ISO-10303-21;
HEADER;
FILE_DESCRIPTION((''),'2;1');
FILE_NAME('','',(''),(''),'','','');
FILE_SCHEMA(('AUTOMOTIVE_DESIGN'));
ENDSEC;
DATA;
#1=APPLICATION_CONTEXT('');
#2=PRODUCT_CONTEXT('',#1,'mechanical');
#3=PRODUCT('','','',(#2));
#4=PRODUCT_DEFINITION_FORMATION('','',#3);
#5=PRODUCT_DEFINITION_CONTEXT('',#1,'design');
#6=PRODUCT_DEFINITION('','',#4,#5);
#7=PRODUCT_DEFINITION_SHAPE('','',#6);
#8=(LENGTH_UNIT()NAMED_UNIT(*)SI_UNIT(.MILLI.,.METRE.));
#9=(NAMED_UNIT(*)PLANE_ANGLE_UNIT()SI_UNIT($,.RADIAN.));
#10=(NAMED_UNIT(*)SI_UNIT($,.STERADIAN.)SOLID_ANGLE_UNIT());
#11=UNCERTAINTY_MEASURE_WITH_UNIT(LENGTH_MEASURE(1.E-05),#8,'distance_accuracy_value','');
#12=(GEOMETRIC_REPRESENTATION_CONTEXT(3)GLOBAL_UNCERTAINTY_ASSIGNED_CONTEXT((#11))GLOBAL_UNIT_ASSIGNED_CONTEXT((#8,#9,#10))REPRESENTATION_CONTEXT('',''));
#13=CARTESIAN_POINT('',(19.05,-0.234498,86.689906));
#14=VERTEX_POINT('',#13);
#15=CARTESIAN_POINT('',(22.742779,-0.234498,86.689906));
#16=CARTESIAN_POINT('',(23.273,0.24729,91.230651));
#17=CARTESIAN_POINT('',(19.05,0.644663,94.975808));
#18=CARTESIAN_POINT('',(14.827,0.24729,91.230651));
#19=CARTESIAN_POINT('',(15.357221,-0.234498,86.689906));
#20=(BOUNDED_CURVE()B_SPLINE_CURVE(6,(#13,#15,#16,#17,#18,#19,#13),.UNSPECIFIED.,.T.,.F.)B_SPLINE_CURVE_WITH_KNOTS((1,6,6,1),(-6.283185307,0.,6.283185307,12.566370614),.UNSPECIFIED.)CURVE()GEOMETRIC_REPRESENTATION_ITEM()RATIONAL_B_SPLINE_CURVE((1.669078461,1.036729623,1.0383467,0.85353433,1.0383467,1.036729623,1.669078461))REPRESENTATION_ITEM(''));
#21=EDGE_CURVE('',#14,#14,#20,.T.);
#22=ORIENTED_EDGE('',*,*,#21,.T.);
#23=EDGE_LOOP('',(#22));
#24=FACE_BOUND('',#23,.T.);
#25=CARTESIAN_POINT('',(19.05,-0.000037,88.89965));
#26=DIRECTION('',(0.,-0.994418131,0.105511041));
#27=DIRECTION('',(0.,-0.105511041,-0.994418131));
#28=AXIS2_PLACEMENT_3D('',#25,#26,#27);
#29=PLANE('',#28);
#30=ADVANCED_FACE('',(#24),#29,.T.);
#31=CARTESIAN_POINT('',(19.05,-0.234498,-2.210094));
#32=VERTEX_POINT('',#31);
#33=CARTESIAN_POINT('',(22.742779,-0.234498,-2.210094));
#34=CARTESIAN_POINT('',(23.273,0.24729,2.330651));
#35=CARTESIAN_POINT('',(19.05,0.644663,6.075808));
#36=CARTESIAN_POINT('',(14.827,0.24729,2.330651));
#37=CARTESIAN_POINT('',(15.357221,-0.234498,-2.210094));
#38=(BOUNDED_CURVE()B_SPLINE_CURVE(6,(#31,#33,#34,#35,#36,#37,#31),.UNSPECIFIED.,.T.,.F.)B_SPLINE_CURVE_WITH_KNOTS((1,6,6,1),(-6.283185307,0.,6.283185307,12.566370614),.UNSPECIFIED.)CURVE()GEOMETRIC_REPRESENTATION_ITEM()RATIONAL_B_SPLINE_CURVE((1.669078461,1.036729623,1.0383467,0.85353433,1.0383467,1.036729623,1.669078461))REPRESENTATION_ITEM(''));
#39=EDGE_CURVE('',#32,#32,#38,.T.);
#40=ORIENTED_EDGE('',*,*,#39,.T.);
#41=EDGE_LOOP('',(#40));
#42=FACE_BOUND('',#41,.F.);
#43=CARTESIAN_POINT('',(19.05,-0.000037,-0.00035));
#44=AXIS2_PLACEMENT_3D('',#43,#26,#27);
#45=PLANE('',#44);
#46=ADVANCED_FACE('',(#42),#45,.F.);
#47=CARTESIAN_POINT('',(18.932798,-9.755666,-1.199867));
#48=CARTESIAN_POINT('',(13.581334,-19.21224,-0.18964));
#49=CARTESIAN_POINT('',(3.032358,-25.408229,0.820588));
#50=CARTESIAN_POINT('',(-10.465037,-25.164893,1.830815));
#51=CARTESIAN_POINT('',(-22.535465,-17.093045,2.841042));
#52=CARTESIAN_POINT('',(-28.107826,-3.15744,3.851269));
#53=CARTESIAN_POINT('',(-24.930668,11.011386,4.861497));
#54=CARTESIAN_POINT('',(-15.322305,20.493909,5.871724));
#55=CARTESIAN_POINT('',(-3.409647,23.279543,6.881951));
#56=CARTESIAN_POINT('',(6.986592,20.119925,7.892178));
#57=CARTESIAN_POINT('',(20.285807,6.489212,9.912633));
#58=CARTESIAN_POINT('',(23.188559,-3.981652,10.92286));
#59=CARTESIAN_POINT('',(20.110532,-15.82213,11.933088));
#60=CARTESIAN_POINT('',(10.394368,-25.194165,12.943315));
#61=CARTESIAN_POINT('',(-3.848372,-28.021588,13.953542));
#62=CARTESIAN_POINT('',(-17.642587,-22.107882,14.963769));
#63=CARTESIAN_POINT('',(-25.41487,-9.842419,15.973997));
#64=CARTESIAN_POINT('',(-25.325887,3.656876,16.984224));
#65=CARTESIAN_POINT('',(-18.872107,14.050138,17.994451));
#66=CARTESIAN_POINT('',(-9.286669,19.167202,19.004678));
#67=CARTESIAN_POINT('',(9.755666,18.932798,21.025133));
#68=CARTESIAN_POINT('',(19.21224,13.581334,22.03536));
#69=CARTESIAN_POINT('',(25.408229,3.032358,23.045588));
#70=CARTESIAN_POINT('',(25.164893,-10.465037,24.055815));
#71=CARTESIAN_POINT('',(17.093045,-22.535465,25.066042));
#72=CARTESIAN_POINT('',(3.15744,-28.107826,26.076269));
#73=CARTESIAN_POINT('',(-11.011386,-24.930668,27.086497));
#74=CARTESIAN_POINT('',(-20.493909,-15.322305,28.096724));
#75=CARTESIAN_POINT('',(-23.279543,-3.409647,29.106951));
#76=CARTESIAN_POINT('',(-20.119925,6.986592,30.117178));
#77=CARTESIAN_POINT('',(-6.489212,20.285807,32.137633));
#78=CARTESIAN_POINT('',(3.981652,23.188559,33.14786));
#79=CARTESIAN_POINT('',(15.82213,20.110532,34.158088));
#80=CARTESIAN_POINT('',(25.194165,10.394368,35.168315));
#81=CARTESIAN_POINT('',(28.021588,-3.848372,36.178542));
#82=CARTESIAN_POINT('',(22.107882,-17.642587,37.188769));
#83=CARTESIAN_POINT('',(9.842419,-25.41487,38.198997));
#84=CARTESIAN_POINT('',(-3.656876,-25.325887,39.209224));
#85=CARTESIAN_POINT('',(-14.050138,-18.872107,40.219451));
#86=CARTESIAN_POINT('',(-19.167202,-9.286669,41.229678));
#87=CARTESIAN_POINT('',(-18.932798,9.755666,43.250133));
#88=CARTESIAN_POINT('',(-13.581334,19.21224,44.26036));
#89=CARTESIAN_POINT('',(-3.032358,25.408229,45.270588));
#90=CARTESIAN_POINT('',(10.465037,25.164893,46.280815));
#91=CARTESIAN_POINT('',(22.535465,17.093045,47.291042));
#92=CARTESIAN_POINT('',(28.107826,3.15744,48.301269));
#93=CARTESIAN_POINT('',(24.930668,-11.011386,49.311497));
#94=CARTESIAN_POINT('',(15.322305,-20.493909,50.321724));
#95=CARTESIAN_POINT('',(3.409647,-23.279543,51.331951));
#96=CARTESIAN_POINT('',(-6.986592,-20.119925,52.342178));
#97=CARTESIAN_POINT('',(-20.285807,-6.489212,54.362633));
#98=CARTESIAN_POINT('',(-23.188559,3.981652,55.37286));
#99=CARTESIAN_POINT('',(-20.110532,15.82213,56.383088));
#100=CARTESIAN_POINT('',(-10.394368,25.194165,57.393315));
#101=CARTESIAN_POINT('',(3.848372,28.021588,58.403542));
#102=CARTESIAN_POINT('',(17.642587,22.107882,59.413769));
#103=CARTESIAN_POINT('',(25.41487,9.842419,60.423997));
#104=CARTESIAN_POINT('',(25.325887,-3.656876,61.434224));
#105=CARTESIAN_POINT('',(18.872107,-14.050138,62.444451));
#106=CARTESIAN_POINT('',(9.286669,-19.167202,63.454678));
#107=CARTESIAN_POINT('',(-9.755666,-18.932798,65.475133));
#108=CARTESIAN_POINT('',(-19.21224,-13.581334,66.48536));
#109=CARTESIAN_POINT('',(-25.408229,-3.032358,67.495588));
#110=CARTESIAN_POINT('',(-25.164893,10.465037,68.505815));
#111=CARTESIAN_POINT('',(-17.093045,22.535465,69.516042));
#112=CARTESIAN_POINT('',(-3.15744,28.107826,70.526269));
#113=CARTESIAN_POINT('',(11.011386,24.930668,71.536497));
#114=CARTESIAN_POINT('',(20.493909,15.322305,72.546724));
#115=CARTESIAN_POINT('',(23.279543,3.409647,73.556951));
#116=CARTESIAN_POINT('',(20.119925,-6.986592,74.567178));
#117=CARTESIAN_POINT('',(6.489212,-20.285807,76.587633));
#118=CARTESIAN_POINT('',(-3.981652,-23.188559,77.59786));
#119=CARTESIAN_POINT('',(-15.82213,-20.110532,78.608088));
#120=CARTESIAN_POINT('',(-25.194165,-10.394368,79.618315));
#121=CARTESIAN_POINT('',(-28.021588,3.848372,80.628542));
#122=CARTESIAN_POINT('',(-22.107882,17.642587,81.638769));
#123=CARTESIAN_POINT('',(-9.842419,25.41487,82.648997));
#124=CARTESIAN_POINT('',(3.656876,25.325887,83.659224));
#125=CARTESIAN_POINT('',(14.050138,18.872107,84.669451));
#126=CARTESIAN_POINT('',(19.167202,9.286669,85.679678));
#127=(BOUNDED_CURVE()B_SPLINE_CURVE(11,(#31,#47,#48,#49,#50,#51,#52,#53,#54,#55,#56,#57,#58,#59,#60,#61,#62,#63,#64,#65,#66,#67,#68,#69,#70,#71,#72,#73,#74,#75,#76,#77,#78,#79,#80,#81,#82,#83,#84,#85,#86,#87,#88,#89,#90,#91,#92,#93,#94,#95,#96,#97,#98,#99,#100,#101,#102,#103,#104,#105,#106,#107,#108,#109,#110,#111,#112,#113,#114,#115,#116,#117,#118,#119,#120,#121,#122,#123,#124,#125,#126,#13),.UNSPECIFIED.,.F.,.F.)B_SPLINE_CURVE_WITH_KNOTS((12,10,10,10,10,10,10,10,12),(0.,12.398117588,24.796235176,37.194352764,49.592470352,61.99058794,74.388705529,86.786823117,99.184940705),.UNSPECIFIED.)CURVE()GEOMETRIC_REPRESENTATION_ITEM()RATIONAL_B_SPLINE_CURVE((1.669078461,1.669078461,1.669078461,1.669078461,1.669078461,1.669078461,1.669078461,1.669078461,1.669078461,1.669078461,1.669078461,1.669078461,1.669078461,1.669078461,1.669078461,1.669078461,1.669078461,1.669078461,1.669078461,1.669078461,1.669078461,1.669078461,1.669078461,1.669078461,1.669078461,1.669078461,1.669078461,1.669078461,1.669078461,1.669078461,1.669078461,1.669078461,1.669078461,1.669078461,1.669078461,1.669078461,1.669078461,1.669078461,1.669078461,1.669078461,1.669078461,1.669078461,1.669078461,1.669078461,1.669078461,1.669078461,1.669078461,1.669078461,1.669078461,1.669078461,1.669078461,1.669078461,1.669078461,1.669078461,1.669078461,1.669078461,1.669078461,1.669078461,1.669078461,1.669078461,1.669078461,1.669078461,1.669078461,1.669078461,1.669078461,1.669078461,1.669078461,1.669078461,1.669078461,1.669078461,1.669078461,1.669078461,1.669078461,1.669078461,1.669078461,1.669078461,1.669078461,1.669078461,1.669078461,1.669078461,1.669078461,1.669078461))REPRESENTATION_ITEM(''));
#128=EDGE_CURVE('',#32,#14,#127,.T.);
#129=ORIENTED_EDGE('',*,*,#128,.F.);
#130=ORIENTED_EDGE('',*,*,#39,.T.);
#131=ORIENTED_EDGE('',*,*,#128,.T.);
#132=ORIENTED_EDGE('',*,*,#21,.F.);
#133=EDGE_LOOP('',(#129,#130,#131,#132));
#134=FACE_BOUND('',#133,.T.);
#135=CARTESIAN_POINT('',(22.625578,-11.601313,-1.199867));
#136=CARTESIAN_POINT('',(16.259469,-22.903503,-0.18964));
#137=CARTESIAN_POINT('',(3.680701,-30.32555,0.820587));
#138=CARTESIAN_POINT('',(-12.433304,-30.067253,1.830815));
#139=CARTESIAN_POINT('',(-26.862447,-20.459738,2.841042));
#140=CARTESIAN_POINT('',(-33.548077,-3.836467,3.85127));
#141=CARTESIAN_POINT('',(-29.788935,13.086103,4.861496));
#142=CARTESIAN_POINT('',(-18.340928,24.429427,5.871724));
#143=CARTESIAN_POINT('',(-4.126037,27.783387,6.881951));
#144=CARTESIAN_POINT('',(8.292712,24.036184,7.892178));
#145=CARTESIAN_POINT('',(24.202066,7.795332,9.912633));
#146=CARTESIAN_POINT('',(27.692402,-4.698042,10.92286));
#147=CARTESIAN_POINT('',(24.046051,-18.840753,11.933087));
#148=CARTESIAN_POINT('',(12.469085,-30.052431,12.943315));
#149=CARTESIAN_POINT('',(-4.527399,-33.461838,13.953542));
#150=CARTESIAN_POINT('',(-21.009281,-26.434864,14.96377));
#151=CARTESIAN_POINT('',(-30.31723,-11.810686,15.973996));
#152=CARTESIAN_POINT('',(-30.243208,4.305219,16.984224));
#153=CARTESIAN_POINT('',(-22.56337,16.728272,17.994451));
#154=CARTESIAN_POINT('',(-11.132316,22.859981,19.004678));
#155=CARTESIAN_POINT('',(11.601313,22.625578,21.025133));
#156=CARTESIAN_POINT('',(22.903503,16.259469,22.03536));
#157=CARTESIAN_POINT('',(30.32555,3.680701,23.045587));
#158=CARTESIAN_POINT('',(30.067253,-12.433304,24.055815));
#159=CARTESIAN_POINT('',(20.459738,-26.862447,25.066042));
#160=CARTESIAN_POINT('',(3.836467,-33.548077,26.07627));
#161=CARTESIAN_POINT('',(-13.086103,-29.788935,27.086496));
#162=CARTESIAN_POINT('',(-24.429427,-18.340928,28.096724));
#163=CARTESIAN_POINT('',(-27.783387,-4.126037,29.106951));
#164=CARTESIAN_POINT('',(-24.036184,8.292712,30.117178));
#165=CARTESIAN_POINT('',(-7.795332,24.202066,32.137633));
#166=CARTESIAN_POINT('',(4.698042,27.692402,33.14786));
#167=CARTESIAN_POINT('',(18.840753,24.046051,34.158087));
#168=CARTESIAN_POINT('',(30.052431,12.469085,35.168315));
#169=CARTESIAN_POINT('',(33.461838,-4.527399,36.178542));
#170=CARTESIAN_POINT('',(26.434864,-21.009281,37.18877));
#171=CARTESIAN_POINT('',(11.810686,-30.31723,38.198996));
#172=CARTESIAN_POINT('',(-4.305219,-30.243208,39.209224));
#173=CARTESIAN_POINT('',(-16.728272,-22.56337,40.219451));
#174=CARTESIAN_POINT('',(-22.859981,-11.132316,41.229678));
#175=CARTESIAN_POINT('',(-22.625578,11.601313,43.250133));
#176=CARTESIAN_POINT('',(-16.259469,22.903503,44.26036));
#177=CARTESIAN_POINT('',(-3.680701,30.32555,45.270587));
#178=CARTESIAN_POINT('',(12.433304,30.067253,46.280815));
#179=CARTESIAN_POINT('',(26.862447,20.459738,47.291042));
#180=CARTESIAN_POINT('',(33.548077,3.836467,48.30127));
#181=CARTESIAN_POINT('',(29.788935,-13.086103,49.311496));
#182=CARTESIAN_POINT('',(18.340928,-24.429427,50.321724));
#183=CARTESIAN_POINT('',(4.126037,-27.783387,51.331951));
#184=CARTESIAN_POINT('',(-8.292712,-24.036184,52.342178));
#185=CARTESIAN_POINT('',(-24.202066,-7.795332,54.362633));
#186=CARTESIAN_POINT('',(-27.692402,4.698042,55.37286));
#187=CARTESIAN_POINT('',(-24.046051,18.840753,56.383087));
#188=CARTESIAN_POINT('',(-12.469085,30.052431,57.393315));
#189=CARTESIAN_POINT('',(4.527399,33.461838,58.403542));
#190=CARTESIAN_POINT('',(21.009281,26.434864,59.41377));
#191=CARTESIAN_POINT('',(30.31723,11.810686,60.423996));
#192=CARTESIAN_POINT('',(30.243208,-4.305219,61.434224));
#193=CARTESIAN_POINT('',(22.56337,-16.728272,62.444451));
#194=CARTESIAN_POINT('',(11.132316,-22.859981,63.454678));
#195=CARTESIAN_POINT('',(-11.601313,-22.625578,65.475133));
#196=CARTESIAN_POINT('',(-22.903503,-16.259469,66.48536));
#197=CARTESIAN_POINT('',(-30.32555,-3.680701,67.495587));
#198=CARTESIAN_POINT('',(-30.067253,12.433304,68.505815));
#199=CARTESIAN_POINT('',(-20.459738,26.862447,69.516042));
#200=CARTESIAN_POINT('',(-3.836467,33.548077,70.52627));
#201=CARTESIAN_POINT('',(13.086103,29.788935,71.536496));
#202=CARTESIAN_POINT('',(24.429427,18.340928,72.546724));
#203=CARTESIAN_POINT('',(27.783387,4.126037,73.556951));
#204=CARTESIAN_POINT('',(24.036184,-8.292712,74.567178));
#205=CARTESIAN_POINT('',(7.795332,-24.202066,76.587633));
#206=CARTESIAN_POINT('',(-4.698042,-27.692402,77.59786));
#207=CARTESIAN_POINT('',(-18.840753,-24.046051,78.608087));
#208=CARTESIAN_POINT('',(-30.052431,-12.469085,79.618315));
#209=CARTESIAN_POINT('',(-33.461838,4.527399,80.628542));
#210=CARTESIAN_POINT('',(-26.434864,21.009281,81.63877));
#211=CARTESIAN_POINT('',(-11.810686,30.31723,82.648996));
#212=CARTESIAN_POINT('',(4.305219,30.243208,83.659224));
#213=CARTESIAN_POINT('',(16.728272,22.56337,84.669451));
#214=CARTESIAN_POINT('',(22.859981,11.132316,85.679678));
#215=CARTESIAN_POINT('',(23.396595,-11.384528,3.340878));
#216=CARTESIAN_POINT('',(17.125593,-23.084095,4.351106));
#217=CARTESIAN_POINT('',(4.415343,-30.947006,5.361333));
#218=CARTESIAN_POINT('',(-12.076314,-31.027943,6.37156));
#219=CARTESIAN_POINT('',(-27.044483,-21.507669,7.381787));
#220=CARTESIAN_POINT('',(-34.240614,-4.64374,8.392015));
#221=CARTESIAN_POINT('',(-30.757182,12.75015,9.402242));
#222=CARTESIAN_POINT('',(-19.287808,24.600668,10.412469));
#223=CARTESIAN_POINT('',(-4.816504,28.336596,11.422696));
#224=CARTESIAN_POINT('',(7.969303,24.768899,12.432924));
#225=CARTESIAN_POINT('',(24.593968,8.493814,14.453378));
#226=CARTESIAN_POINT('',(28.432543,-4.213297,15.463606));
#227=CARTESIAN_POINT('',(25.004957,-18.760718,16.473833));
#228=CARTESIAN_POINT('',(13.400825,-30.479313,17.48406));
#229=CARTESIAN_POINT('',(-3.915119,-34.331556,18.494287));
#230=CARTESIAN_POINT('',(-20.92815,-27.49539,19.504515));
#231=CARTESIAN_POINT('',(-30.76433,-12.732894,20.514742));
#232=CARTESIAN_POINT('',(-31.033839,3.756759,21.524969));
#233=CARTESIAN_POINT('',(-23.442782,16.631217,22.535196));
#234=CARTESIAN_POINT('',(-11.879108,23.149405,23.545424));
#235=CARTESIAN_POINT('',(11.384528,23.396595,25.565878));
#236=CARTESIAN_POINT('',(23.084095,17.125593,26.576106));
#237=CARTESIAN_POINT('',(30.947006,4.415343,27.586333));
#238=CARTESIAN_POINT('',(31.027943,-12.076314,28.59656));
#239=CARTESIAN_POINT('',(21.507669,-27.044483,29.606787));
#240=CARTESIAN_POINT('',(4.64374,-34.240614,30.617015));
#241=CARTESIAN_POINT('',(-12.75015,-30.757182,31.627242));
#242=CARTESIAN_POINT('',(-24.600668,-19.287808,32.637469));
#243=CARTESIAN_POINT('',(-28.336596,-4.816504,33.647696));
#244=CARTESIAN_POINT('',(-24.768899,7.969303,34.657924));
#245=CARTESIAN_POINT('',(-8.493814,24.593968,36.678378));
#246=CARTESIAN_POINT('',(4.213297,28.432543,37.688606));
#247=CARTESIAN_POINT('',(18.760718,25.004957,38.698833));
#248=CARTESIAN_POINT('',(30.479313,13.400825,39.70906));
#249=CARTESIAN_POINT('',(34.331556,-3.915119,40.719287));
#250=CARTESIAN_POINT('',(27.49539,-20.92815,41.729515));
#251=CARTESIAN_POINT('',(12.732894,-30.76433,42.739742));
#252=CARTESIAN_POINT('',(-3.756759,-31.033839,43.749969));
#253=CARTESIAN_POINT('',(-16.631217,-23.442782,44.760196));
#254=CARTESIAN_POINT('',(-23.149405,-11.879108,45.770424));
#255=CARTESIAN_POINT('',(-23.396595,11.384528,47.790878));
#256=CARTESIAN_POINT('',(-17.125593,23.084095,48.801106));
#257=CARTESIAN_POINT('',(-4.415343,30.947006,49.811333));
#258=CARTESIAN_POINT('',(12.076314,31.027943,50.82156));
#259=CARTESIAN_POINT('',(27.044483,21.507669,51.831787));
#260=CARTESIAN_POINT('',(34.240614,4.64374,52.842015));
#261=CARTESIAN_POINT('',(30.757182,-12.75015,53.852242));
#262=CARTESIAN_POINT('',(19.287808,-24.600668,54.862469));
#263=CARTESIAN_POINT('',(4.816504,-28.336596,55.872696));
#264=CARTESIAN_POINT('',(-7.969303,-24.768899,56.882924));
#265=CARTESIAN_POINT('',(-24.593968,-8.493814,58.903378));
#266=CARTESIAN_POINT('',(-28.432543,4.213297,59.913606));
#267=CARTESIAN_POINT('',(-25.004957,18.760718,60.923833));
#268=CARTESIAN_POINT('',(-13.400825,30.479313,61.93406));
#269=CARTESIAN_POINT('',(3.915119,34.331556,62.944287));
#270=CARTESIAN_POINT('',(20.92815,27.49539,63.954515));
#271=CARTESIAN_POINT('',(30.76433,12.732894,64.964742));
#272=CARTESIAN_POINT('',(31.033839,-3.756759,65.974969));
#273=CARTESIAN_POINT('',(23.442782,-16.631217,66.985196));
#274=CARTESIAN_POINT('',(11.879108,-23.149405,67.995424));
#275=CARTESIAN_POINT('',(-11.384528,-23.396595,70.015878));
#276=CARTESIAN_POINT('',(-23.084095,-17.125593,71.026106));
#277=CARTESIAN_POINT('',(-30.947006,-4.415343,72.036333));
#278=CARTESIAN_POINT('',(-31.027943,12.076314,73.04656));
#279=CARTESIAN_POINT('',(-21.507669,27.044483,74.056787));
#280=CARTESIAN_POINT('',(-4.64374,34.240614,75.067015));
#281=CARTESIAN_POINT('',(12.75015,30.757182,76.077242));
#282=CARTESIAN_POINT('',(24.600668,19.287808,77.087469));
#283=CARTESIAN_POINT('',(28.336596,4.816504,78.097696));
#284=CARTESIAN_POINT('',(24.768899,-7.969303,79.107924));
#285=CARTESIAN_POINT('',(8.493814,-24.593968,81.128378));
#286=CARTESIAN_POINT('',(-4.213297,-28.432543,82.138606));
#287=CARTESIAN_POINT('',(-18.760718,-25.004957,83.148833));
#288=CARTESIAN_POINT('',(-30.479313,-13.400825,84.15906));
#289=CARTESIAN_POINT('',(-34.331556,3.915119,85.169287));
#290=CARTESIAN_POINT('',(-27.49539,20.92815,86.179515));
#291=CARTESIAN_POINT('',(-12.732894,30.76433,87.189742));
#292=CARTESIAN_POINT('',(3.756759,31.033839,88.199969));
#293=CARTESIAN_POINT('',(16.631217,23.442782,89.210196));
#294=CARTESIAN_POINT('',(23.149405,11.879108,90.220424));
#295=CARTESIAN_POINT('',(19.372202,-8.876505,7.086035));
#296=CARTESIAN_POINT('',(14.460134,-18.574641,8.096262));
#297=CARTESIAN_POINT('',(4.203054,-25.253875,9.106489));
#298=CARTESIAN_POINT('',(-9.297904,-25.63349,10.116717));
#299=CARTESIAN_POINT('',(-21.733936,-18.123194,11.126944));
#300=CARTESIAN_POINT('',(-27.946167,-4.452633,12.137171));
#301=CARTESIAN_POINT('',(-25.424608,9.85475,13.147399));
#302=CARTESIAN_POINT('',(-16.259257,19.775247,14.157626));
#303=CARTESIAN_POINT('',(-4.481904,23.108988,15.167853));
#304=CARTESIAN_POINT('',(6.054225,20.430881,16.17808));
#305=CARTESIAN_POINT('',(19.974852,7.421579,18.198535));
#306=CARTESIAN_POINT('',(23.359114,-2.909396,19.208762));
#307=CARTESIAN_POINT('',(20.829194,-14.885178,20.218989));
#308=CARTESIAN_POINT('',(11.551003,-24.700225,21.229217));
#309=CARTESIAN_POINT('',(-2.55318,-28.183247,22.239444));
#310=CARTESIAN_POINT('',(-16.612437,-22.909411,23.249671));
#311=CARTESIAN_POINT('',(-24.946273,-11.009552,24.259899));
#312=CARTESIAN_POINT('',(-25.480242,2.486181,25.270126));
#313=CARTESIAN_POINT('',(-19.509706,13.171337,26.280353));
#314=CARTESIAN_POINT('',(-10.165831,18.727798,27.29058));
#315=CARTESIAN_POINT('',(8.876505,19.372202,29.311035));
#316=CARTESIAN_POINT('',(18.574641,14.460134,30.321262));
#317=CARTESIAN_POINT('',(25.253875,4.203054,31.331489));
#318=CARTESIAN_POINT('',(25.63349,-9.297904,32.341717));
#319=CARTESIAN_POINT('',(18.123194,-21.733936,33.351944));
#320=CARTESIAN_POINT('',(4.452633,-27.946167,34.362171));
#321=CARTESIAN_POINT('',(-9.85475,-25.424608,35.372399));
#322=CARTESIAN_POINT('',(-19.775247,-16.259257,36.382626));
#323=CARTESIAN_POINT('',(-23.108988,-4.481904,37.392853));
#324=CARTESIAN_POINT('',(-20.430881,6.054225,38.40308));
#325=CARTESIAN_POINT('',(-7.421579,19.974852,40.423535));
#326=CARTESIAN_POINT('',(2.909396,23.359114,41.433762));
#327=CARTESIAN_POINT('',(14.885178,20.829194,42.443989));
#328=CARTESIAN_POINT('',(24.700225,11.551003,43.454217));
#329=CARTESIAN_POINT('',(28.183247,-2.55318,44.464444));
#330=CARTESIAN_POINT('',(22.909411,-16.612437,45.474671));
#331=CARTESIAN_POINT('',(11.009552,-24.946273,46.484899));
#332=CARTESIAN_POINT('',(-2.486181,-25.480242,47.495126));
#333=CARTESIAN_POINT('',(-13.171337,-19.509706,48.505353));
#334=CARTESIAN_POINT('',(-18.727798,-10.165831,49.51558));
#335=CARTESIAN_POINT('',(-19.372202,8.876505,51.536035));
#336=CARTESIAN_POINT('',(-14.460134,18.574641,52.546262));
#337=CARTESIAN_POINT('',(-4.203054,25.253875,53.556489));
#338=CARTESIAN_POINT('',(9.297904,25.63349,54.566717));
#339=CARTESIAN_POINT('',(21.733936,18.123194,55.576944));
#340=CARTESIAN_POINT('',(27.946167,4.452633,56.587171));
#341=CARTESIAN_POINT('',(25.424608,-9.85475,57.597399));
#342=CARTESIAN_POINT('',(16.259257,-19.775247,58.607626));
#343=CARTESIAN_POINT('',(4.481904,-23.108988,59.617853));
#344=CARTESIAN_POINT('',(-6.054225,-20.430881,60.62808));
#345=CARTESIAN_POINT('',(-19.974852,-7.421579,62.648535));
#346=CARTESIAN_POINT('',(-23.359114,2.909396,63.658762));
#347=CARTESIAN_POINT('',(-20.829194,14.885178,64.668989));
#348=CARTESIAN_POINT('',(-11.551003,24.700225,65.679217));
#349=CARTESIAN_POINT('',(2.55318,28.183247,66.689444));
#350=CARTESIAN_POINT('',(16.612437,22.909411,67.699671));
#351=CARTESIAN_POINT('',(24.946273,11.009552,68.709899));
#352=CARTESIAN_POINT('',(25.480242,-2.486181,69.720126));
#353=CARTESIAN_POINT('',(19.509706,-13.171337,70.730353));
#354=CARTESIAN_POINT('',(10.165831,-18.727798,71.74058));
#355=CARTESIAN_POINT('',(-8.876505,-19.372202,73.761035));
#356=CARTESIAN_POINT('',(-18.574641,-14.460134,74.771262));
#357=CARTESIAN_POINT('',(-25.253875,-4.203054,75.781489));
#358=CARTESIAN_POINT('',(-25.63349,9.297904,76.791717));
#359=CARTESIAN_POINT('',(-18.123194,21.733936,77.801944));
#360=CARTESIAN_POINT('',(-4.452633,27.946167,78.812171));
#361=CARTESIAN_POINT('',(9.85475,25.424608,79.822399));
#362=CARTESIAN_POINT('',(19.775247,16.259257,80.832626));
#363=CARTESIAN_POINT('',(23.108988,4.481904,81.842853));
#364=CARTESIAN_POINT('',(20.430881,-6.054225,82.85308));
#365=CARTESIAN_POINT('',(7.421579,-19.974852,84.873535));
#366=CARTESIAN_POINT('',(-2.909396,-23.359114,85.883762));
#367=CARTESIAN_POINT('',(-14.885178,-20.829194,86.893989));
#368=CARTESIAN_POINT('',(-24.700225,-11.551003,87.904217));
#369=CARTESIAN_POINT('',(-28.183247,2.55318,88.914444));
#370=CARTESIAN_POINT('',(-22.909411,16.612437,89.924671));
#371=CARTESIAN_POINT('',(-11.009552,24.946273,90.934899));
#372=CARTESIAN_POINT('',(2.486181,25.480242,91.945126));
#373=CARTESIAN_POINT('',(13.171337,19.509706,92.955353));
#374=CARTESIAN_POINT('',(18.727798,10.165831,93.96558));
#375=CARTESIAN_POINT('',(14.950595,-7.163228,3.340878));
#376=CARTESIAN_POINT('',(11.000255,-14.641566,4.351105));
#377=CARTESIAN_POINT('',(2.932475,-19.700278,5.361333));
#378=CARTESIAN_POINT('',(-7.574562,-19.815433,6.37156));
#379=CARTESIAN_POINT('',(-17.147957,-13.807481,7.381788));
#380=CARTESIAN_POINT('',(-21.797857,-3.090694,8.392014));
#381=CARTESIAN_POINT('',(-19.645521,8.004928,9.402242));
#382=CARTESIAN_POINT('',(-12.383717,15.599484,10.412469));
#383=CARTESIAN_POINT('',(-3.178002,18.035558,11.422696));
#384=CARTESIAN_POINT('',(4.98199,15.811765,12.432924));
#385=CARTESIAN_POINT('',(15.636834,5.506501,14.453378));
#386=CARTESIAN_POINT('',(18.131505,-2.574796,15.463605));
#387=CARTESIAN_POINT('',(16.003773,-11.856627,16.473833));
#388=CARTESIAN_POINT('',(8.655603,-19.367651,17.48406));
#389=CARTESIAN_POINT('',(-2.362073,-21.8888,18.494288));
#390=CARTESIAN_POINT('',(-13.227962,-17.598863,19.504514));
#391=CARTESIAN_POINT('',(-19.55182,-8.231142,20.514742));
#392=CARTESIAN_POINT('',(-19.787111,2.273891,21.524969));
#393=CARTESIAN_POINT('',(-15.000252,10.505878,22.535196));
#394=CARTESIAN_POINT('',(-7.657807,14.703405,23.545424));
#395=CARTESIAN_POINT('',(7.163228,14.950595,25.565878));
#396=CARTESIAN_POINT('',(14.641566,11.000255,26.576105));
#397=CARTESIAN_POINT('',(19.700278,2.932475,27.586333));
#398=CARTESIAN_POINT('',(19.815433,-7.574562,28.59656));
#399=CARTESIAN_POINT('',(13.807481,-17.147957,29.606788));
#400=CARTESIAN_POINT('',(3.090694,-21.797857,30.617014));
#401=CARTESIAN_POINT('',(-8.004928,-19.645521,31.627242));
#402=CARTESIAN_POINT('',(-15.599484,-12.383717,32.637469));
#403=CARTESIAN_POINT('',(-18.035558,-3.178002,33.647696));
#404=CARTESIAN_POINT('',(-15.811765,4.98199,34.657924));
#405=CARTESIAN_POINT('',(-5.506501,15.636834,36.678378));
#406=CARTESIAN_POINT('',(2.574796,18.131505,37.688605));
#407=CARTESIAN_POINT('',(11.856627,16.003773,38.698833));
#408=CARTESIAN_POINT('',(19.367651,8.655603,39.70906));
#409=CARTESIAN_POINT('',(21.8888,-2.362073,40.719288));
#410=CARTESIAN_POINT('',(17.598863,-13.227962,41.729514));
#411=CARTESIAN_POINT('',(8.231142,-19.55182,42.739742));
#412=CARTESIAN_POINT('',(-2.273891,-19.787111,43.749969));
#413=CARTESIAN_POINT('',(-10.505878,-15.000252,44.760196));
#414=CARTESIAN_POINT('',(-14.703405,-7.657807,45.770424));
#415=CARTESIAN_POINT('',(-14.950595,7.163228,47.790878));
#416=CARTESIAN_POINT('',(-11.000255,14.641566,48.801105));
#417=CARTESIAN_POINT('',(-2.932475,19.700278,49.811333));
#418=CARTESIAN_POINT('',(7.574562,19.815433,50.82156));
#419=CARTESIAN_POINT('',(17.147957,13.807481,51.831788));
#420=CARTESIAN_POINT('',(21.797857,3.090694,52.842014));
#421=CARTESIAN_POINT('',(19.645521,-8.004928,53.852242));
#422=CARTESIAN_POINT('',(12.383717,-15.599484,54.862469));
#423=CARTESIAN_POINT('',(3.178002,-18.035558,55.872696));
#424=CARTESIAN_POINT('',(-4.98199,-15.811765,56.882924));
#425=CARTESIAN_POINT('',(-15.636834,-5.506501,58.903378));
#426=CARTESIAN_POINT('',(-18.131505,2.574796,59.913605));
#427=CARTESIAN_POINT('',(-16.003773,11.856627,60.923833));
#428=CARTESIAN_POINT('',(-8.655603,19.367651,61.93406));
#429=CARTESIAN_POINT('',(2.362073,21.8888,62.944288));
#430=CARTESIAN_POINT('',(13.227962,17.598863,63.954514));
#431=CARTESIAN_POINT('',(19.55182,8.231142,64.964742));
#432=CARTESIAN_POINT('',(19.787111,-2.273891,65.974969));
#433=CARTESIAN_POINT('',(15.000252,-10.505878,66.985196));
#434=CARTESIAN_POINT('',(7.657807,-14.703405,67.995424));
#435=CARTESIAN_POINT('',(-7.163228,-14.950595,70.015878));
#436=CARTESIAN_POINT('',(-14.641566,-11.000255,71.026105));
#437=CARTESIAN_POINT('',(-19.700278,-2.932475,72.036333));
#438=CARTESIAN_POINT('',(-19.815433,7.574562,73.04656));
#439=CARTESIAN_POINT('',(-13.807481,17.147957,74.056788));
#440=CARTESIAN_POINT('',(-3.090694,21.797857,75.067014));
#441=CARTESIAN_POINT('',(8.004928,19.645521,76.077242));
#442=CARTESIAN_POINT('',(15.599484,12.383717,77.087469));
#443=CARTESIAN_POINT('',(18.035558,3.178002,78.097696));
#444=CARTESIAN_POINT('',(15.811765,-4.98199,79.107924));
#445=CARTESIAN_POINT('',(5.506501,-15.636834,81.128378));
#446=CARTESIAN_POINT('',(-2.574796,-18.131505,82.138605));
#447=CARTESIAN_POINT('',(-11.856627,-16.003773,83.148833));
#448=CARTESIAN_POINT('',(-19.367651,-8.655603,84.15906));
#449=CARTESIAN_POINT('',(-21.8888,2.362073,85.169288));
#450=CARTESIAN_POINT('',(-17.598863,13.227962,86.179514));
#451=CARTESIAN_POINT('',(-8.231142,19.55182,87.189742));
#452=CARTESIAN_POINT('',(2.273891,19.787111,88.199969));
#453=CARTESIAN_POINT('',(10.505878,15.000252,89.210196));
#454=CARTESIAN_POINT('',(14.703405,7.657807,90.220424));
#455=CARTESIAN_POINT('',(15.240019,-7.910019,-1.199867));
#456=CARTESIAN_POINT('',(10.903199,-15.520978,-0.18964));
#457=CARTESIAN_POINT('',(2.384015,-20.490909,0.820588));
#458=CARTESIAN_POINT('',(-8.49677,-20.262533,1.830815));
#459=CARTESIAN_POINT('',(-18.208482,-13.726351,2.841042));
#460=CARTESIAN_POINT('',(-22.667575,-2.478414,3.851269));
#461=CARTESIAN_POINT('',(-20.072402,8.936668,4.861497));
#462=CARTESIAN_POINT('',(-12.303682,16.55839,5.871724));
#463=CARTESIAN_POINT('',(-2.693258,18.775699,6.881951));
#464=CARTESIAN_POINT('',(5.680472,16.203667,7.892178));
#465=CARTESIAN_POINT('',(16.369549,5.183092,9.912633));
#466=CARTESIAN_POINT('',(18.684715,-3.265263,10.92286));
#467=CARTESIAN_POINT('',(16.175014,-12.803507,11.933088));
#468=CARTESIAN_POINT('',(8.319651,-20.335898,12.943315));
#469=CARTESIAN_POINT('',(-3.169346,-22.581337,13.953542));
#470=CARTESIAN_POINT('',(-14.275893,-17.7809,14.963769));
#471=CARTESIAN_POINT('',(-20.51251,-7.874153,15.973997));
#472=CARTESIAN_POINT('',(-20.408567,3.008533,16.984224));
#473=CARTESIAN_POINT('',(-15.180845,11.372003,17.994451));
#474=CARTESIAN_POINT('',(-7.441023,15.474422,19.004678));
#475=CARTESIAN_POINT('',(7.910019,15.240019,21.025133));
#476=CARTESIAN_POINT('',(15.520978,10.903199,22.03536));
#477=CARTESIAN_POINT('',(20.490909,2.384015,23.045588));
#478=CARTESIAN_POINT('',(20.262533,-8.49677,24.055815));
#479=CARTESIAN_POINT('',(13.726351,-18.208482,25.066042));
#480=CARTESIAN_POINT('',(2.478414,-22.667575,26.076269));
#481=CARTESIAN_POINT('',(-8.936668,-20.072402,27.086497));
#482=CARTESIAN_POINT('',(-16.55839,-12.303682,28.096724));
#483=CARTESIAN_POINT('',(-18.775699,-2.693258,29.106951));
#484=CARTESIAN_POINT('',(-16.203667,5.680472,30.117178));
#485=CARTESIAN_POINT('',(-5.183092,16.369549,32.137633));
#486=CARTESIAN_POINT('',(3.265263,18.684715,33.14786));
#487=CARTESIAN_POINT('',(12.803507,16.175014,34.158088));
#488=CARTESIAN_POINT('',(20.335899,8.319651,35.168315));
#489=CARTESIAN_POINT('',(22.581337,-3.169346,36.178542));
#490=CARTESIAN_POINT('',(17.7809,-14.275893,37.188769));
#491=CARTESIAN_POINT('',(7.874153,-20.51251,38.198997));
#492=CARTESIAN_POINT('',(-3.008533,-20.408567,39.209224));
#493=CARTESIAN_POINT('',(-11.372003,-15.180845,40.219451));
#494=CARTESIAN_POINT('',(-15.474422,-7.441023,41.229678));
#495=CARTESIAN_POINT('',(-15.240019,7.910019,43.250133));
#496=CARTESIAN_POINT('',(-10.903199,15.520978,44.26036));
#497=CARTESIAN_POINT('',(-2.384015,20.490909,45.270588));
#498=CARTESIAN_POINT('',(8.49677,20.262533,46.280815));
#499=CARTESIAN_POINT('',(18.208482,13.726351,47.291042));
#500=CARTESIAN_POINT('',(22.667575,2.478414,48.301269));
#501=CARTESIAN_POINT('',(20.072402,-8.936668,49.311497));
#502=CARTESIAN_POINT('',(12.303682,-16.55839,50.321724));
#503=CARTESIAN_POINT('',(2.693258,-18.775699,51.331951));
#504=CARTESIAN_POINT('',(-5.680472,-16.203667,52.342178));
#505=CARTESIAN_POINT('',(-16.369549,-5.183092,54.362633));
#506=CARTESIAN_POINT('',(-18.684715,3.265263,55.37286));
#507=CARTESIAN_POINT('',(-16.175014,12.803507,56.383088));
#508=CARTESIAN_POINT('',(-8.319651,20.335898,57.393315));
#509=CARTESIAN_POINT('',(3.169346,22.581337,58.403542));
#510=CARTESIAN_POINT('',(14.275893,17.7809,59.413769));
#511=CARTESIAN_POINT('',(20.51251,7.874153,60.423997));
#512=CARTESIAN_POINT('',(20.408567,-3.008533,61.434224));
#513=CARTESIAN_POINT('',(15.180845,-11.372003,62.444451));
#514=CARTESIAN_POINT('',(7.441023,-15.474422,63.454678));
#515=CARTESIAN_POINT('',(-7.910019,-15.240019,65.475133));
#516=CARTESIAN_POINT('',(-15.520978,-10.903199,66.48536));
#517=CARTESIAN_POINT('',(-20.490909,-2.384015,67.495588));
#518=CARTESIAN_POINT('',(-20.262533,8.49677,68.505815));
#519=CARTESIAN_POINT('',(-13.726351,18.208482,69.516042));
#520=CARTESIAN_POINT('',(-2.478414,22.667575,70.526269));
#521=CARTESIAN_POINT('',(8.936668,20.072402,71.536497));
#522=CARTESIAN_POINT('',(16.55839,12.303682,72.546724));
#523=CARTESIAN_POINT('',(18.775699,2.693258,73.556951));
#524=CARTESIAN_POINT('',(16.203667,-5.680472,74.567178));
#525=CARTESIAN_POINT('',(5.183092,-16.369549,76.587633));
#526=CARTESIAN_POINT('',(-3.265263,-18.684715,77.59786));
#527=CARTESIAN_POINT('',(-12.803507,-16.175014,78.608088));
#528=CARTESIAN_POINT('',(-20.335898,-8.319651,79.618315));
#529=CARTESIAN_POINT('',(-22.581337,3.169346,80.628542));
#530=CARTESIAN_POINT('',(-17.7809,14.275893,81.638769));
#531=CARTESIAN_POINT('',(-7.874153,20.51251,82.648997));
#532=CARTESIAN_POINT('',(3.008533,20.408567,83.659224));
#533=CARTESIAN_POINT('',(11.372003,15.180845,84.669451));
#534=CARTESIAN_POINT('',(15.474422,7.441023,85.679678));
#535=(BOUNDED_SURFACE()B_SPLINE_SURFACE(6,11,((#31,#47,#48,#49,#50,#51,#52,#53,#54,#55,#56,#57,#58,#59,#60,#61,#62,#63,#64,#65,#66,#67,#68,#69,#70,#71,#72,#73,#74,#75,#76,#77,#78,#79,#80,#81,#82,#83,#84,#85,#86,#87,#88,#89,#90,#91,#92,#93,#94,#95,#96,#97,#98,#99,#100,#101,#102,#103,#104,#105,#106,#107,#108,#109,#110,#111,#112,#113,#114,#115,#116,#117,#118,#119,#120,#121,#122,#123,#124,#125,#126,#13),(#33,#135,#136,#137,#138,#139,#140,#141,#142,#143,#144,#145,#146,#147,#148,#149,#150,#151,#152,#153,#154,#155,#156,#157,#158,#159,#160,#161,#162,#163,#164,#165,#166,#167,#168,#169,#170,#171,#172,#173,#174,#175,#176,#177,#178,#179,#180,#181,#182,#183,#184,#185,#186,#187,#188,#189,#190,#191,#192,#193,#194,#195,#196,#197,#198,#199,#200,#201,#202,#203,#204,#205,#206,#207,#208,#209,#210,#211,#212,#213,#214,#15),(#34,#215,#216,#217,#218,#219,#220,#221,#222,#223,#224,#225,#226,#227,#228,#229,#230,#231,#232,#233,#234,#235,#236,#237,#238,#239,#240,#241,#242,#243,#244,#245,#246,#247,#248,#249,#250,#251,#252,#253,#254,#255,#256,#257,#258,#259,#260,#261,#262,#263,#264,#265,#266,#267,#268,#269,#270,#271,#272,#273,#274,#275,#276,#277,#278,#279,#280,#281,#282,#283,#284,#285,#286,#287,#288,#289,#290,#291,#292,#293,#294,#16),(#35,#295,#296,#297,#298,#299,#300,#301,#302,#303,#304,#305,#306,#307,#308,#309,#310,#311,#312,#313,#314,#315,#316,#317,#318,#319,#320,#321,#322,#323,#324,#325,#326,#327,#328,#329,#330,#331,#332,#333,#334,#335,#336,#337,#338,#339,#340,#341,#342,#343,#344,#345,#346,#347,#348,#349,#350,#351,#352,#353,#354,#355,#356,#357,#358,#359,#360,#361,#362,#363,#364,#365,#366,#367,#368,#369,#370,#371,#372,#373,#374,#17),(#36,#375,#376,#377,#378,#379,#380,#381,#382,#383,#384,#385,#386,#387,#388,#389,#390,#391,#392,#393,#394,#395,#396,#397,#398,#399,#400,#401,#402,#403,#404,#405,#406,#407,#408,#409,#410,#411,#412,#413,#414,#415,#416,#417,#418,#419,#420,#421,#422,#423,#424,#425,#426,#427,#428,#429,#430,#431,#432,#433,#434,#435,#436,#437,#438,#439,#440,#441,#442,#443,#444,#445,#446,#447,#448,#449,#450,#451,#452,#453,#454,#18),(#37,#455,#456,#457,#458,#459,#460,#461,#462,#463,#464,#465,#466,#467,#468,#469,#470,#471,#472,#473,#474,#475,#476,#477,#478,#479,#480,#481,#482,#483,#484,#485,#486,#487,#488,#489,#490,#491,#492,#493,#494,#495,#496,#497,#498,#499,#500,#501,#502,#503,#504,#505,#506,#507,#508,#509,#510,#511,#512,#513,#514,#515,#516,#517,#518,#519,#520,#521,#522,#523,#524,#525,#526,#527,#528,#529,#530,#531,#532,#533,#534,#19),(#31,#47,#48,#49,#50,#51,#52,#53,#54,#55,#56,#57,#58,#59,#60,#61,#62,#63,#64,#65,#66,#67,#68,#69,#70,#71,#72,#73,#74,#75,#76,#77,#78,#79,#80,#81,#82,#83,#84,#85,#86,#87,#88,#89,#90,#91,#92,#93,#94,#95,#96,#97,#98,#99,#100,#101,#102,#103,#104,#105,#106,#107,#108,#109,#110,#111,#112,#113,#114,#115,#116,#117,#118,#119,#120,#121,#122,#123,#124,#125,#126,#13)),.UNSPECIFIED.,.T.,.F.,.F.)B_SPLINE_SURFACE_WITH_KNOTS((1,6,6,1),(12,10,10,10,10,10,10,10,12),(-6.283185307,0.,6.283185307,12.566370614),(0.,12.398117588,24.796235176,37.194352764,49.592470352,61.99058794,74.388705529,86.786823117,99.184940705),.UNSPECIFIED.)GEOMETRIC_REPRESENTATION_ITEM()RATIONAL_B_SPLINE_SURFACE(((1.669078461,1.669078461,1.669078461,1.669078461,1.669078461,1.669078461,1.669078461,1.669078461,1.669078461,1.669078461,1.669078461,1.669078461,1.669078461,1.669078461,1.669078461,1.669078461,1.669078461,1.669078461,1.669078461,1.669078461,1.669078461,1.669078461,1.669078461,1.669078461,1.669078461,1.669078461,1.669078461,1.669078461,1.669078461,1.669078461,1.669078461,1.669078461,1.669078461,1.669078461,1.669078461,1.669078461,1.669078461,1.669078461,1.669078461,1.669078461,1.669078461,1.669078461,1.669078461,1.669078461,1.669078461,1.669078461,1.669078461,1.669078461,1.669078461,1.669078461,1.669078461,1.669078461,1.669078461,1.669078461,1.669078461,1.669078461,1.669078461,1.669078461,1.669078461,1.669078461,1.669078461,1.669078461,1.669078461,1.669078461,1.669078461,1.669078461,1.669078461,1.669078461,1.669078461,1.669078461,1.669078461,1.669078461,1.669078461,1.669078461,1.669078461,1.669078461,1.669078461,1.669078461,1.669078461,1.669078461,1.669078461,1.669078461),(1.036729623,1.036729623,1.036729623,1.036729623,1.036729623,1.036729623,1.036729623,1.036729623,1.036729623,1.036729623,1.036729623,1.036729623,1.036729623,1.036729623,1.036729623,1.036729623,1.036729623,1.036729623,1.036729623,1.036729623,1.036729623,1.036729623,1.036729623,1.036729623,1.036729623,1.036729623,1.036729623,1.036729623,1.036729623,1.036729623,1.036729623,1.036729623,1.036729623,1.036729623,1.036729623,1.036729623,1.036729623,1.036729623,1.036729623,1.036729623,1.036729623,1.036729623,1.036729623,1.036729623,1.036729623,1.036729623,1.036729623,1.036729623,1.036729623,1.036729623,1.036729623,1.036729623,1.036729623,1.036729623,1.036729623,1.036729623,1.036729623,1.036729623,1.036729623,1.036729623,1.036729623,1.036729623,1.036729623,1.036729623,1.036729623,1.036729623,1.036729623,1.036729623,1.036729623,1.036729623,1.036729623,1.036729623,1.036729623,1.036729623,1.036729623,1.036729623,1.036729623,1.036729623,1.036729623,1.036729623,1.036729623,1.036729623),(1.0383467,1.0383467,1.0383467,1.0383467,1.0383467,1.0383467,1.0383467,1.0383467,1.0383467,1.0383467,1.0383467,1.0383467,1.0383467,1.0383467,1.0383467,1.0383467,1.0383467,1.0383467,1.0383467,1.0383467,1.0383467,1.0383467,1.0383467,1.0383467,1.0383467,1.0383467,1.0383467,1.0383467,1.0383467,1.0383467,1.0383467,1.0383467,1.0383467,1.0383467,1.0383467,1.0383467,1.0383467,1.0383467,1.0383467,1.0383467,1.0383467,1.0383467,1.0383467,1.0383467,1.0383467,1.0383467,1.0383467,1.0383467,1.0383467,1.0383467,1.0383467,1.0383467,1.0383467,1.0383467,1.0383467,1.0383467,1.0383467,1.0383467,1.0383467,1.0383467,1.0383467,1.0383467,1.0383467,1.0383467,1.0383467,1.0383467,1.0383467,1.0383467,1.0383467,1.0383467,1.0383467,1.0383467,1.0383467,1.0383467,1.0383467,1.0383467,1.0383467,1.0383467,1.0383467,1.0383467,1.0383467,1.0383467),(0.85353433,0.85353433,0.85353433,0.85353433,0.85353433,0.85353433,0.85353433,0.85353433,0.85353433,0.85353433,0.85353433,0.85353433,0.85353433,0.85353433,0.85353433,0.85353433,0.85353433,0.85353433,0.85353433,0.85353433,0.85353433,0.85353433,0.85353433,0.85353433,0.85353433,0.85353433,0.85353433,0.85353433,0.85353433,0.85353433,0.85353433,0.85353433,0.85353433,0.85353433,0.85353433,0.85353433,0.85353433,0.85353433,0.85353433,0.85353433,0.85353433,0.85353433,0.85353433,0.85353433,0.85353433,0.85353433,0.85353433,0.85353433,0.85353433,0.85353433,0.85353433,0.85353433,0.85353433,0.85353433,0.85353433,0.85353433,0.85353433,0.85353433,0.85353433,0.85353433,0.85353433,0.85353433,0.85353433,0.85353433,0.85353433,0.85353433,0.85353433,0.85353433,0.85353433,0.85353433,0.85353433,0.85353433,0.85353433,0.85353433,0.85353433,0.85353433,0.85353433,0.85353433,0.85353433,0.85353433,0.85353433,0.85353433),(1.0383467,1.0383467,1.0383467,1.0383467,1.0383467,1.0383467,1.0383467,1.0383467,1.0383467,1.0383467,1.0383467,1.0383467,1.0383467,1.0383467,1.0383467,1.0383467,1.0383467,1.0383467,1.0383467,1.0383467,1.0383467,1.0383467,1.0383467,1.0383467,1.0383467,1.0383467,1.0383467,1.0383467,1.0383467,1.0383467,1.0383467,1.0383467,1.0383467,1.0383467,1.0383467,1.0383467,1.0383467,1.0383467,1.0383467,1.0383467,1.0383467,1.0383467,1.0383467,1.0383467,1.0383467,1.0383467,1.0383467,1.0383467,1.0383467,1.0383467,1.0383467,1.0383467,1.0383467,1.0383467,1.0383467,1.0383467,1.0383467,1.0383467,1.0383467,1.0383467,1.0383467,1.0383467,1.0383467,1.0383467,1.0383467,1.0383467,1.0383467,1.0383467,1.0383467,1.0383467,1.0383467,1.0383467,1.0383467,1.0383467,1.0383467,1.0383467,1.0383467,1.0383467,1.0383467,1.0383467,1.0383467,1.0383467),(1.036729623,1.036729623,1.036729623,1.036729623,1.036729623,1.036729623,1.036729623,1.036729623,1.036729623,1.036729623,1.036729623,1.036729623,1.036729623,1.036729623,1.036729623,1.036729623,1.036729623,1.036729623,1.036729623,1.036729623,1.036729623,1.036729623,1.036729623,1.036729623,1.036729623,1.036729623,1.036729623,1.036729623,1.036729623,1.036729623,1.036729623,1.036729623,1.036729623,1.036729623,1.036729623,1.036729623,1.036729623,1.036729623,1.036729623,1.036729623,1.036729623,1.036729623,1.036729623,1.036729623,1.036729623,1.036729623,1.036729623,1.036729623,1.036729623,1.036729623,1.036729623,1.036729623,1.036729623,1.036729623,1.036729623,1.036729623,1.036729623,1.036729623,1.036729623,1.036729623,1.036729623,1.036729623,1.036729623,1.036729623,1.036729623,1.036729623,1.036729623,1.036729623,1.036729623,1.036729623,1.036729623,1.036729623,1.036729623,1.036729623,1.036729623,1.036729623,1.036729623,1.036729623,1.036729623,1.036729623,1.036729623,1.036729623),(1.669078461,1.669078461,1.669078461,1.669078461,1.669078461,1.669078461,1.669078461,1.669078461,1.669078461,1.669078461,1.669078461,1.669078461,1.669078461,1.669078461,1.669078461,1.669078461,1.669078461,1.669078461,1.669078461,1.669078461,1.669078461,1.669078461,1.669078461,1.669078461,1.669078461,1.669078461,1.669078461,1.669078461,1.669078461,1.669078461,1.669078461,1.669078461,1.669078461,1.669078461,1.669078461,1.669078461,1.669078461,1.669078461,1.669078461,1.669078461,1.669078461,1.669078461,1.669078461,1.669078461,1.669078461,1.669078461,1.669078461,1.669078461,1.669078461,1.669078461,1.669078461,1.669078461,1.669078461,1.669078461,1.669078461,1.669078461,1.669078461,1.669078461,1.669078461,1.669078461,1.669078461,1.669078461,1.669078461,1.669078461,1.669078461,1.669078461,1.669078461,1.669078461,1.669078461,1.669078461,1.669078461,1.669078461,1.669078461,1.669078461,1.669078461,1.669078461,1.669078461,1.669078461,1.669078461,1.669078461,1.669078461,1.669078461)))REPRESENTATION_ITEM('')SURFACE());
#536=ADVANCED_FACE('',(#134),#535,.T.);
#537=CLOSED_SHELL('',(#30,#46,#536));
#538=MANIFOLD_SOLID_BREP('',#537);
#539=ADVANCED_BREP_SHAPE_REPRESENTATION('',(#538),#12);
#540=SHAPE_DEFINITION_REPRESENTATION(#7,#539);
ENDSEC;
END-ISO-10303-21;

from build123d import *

# Parameters (mm, degrees)
SWEEP1_PITCH     = 12.7
SWEEP1_HEIGHT    = 88.9
SWEEP1_RADIUS    = 19.05
SWEEP1_PROFILE_R = 2.2225


with BuildPart() as part:
    # Sweep1: sweep along a helix
    with BuildLine() as sweep1_path:
        Helix(SWEEP1_PITCH, SWEEP1_HEIGHT, SWEEP1_RADIUS, center=(0, 0, 0), direction=(0, 0, 1), lefthand=True)
    # Sweep1 profile (on start of the path) → Sweep1 (sweep)
    with BuildSketch(Plane(origin=(19.05, 0, 0), x_dir=(0, -0.105511041, -0.994418132), z_dir=(0, -0.994418132, 0.105511041))):
        Circle(SWEEP1_PROFILE_R)
    sweep(path=sweep1_path.line, is_frenet=True)


solid = part.part
